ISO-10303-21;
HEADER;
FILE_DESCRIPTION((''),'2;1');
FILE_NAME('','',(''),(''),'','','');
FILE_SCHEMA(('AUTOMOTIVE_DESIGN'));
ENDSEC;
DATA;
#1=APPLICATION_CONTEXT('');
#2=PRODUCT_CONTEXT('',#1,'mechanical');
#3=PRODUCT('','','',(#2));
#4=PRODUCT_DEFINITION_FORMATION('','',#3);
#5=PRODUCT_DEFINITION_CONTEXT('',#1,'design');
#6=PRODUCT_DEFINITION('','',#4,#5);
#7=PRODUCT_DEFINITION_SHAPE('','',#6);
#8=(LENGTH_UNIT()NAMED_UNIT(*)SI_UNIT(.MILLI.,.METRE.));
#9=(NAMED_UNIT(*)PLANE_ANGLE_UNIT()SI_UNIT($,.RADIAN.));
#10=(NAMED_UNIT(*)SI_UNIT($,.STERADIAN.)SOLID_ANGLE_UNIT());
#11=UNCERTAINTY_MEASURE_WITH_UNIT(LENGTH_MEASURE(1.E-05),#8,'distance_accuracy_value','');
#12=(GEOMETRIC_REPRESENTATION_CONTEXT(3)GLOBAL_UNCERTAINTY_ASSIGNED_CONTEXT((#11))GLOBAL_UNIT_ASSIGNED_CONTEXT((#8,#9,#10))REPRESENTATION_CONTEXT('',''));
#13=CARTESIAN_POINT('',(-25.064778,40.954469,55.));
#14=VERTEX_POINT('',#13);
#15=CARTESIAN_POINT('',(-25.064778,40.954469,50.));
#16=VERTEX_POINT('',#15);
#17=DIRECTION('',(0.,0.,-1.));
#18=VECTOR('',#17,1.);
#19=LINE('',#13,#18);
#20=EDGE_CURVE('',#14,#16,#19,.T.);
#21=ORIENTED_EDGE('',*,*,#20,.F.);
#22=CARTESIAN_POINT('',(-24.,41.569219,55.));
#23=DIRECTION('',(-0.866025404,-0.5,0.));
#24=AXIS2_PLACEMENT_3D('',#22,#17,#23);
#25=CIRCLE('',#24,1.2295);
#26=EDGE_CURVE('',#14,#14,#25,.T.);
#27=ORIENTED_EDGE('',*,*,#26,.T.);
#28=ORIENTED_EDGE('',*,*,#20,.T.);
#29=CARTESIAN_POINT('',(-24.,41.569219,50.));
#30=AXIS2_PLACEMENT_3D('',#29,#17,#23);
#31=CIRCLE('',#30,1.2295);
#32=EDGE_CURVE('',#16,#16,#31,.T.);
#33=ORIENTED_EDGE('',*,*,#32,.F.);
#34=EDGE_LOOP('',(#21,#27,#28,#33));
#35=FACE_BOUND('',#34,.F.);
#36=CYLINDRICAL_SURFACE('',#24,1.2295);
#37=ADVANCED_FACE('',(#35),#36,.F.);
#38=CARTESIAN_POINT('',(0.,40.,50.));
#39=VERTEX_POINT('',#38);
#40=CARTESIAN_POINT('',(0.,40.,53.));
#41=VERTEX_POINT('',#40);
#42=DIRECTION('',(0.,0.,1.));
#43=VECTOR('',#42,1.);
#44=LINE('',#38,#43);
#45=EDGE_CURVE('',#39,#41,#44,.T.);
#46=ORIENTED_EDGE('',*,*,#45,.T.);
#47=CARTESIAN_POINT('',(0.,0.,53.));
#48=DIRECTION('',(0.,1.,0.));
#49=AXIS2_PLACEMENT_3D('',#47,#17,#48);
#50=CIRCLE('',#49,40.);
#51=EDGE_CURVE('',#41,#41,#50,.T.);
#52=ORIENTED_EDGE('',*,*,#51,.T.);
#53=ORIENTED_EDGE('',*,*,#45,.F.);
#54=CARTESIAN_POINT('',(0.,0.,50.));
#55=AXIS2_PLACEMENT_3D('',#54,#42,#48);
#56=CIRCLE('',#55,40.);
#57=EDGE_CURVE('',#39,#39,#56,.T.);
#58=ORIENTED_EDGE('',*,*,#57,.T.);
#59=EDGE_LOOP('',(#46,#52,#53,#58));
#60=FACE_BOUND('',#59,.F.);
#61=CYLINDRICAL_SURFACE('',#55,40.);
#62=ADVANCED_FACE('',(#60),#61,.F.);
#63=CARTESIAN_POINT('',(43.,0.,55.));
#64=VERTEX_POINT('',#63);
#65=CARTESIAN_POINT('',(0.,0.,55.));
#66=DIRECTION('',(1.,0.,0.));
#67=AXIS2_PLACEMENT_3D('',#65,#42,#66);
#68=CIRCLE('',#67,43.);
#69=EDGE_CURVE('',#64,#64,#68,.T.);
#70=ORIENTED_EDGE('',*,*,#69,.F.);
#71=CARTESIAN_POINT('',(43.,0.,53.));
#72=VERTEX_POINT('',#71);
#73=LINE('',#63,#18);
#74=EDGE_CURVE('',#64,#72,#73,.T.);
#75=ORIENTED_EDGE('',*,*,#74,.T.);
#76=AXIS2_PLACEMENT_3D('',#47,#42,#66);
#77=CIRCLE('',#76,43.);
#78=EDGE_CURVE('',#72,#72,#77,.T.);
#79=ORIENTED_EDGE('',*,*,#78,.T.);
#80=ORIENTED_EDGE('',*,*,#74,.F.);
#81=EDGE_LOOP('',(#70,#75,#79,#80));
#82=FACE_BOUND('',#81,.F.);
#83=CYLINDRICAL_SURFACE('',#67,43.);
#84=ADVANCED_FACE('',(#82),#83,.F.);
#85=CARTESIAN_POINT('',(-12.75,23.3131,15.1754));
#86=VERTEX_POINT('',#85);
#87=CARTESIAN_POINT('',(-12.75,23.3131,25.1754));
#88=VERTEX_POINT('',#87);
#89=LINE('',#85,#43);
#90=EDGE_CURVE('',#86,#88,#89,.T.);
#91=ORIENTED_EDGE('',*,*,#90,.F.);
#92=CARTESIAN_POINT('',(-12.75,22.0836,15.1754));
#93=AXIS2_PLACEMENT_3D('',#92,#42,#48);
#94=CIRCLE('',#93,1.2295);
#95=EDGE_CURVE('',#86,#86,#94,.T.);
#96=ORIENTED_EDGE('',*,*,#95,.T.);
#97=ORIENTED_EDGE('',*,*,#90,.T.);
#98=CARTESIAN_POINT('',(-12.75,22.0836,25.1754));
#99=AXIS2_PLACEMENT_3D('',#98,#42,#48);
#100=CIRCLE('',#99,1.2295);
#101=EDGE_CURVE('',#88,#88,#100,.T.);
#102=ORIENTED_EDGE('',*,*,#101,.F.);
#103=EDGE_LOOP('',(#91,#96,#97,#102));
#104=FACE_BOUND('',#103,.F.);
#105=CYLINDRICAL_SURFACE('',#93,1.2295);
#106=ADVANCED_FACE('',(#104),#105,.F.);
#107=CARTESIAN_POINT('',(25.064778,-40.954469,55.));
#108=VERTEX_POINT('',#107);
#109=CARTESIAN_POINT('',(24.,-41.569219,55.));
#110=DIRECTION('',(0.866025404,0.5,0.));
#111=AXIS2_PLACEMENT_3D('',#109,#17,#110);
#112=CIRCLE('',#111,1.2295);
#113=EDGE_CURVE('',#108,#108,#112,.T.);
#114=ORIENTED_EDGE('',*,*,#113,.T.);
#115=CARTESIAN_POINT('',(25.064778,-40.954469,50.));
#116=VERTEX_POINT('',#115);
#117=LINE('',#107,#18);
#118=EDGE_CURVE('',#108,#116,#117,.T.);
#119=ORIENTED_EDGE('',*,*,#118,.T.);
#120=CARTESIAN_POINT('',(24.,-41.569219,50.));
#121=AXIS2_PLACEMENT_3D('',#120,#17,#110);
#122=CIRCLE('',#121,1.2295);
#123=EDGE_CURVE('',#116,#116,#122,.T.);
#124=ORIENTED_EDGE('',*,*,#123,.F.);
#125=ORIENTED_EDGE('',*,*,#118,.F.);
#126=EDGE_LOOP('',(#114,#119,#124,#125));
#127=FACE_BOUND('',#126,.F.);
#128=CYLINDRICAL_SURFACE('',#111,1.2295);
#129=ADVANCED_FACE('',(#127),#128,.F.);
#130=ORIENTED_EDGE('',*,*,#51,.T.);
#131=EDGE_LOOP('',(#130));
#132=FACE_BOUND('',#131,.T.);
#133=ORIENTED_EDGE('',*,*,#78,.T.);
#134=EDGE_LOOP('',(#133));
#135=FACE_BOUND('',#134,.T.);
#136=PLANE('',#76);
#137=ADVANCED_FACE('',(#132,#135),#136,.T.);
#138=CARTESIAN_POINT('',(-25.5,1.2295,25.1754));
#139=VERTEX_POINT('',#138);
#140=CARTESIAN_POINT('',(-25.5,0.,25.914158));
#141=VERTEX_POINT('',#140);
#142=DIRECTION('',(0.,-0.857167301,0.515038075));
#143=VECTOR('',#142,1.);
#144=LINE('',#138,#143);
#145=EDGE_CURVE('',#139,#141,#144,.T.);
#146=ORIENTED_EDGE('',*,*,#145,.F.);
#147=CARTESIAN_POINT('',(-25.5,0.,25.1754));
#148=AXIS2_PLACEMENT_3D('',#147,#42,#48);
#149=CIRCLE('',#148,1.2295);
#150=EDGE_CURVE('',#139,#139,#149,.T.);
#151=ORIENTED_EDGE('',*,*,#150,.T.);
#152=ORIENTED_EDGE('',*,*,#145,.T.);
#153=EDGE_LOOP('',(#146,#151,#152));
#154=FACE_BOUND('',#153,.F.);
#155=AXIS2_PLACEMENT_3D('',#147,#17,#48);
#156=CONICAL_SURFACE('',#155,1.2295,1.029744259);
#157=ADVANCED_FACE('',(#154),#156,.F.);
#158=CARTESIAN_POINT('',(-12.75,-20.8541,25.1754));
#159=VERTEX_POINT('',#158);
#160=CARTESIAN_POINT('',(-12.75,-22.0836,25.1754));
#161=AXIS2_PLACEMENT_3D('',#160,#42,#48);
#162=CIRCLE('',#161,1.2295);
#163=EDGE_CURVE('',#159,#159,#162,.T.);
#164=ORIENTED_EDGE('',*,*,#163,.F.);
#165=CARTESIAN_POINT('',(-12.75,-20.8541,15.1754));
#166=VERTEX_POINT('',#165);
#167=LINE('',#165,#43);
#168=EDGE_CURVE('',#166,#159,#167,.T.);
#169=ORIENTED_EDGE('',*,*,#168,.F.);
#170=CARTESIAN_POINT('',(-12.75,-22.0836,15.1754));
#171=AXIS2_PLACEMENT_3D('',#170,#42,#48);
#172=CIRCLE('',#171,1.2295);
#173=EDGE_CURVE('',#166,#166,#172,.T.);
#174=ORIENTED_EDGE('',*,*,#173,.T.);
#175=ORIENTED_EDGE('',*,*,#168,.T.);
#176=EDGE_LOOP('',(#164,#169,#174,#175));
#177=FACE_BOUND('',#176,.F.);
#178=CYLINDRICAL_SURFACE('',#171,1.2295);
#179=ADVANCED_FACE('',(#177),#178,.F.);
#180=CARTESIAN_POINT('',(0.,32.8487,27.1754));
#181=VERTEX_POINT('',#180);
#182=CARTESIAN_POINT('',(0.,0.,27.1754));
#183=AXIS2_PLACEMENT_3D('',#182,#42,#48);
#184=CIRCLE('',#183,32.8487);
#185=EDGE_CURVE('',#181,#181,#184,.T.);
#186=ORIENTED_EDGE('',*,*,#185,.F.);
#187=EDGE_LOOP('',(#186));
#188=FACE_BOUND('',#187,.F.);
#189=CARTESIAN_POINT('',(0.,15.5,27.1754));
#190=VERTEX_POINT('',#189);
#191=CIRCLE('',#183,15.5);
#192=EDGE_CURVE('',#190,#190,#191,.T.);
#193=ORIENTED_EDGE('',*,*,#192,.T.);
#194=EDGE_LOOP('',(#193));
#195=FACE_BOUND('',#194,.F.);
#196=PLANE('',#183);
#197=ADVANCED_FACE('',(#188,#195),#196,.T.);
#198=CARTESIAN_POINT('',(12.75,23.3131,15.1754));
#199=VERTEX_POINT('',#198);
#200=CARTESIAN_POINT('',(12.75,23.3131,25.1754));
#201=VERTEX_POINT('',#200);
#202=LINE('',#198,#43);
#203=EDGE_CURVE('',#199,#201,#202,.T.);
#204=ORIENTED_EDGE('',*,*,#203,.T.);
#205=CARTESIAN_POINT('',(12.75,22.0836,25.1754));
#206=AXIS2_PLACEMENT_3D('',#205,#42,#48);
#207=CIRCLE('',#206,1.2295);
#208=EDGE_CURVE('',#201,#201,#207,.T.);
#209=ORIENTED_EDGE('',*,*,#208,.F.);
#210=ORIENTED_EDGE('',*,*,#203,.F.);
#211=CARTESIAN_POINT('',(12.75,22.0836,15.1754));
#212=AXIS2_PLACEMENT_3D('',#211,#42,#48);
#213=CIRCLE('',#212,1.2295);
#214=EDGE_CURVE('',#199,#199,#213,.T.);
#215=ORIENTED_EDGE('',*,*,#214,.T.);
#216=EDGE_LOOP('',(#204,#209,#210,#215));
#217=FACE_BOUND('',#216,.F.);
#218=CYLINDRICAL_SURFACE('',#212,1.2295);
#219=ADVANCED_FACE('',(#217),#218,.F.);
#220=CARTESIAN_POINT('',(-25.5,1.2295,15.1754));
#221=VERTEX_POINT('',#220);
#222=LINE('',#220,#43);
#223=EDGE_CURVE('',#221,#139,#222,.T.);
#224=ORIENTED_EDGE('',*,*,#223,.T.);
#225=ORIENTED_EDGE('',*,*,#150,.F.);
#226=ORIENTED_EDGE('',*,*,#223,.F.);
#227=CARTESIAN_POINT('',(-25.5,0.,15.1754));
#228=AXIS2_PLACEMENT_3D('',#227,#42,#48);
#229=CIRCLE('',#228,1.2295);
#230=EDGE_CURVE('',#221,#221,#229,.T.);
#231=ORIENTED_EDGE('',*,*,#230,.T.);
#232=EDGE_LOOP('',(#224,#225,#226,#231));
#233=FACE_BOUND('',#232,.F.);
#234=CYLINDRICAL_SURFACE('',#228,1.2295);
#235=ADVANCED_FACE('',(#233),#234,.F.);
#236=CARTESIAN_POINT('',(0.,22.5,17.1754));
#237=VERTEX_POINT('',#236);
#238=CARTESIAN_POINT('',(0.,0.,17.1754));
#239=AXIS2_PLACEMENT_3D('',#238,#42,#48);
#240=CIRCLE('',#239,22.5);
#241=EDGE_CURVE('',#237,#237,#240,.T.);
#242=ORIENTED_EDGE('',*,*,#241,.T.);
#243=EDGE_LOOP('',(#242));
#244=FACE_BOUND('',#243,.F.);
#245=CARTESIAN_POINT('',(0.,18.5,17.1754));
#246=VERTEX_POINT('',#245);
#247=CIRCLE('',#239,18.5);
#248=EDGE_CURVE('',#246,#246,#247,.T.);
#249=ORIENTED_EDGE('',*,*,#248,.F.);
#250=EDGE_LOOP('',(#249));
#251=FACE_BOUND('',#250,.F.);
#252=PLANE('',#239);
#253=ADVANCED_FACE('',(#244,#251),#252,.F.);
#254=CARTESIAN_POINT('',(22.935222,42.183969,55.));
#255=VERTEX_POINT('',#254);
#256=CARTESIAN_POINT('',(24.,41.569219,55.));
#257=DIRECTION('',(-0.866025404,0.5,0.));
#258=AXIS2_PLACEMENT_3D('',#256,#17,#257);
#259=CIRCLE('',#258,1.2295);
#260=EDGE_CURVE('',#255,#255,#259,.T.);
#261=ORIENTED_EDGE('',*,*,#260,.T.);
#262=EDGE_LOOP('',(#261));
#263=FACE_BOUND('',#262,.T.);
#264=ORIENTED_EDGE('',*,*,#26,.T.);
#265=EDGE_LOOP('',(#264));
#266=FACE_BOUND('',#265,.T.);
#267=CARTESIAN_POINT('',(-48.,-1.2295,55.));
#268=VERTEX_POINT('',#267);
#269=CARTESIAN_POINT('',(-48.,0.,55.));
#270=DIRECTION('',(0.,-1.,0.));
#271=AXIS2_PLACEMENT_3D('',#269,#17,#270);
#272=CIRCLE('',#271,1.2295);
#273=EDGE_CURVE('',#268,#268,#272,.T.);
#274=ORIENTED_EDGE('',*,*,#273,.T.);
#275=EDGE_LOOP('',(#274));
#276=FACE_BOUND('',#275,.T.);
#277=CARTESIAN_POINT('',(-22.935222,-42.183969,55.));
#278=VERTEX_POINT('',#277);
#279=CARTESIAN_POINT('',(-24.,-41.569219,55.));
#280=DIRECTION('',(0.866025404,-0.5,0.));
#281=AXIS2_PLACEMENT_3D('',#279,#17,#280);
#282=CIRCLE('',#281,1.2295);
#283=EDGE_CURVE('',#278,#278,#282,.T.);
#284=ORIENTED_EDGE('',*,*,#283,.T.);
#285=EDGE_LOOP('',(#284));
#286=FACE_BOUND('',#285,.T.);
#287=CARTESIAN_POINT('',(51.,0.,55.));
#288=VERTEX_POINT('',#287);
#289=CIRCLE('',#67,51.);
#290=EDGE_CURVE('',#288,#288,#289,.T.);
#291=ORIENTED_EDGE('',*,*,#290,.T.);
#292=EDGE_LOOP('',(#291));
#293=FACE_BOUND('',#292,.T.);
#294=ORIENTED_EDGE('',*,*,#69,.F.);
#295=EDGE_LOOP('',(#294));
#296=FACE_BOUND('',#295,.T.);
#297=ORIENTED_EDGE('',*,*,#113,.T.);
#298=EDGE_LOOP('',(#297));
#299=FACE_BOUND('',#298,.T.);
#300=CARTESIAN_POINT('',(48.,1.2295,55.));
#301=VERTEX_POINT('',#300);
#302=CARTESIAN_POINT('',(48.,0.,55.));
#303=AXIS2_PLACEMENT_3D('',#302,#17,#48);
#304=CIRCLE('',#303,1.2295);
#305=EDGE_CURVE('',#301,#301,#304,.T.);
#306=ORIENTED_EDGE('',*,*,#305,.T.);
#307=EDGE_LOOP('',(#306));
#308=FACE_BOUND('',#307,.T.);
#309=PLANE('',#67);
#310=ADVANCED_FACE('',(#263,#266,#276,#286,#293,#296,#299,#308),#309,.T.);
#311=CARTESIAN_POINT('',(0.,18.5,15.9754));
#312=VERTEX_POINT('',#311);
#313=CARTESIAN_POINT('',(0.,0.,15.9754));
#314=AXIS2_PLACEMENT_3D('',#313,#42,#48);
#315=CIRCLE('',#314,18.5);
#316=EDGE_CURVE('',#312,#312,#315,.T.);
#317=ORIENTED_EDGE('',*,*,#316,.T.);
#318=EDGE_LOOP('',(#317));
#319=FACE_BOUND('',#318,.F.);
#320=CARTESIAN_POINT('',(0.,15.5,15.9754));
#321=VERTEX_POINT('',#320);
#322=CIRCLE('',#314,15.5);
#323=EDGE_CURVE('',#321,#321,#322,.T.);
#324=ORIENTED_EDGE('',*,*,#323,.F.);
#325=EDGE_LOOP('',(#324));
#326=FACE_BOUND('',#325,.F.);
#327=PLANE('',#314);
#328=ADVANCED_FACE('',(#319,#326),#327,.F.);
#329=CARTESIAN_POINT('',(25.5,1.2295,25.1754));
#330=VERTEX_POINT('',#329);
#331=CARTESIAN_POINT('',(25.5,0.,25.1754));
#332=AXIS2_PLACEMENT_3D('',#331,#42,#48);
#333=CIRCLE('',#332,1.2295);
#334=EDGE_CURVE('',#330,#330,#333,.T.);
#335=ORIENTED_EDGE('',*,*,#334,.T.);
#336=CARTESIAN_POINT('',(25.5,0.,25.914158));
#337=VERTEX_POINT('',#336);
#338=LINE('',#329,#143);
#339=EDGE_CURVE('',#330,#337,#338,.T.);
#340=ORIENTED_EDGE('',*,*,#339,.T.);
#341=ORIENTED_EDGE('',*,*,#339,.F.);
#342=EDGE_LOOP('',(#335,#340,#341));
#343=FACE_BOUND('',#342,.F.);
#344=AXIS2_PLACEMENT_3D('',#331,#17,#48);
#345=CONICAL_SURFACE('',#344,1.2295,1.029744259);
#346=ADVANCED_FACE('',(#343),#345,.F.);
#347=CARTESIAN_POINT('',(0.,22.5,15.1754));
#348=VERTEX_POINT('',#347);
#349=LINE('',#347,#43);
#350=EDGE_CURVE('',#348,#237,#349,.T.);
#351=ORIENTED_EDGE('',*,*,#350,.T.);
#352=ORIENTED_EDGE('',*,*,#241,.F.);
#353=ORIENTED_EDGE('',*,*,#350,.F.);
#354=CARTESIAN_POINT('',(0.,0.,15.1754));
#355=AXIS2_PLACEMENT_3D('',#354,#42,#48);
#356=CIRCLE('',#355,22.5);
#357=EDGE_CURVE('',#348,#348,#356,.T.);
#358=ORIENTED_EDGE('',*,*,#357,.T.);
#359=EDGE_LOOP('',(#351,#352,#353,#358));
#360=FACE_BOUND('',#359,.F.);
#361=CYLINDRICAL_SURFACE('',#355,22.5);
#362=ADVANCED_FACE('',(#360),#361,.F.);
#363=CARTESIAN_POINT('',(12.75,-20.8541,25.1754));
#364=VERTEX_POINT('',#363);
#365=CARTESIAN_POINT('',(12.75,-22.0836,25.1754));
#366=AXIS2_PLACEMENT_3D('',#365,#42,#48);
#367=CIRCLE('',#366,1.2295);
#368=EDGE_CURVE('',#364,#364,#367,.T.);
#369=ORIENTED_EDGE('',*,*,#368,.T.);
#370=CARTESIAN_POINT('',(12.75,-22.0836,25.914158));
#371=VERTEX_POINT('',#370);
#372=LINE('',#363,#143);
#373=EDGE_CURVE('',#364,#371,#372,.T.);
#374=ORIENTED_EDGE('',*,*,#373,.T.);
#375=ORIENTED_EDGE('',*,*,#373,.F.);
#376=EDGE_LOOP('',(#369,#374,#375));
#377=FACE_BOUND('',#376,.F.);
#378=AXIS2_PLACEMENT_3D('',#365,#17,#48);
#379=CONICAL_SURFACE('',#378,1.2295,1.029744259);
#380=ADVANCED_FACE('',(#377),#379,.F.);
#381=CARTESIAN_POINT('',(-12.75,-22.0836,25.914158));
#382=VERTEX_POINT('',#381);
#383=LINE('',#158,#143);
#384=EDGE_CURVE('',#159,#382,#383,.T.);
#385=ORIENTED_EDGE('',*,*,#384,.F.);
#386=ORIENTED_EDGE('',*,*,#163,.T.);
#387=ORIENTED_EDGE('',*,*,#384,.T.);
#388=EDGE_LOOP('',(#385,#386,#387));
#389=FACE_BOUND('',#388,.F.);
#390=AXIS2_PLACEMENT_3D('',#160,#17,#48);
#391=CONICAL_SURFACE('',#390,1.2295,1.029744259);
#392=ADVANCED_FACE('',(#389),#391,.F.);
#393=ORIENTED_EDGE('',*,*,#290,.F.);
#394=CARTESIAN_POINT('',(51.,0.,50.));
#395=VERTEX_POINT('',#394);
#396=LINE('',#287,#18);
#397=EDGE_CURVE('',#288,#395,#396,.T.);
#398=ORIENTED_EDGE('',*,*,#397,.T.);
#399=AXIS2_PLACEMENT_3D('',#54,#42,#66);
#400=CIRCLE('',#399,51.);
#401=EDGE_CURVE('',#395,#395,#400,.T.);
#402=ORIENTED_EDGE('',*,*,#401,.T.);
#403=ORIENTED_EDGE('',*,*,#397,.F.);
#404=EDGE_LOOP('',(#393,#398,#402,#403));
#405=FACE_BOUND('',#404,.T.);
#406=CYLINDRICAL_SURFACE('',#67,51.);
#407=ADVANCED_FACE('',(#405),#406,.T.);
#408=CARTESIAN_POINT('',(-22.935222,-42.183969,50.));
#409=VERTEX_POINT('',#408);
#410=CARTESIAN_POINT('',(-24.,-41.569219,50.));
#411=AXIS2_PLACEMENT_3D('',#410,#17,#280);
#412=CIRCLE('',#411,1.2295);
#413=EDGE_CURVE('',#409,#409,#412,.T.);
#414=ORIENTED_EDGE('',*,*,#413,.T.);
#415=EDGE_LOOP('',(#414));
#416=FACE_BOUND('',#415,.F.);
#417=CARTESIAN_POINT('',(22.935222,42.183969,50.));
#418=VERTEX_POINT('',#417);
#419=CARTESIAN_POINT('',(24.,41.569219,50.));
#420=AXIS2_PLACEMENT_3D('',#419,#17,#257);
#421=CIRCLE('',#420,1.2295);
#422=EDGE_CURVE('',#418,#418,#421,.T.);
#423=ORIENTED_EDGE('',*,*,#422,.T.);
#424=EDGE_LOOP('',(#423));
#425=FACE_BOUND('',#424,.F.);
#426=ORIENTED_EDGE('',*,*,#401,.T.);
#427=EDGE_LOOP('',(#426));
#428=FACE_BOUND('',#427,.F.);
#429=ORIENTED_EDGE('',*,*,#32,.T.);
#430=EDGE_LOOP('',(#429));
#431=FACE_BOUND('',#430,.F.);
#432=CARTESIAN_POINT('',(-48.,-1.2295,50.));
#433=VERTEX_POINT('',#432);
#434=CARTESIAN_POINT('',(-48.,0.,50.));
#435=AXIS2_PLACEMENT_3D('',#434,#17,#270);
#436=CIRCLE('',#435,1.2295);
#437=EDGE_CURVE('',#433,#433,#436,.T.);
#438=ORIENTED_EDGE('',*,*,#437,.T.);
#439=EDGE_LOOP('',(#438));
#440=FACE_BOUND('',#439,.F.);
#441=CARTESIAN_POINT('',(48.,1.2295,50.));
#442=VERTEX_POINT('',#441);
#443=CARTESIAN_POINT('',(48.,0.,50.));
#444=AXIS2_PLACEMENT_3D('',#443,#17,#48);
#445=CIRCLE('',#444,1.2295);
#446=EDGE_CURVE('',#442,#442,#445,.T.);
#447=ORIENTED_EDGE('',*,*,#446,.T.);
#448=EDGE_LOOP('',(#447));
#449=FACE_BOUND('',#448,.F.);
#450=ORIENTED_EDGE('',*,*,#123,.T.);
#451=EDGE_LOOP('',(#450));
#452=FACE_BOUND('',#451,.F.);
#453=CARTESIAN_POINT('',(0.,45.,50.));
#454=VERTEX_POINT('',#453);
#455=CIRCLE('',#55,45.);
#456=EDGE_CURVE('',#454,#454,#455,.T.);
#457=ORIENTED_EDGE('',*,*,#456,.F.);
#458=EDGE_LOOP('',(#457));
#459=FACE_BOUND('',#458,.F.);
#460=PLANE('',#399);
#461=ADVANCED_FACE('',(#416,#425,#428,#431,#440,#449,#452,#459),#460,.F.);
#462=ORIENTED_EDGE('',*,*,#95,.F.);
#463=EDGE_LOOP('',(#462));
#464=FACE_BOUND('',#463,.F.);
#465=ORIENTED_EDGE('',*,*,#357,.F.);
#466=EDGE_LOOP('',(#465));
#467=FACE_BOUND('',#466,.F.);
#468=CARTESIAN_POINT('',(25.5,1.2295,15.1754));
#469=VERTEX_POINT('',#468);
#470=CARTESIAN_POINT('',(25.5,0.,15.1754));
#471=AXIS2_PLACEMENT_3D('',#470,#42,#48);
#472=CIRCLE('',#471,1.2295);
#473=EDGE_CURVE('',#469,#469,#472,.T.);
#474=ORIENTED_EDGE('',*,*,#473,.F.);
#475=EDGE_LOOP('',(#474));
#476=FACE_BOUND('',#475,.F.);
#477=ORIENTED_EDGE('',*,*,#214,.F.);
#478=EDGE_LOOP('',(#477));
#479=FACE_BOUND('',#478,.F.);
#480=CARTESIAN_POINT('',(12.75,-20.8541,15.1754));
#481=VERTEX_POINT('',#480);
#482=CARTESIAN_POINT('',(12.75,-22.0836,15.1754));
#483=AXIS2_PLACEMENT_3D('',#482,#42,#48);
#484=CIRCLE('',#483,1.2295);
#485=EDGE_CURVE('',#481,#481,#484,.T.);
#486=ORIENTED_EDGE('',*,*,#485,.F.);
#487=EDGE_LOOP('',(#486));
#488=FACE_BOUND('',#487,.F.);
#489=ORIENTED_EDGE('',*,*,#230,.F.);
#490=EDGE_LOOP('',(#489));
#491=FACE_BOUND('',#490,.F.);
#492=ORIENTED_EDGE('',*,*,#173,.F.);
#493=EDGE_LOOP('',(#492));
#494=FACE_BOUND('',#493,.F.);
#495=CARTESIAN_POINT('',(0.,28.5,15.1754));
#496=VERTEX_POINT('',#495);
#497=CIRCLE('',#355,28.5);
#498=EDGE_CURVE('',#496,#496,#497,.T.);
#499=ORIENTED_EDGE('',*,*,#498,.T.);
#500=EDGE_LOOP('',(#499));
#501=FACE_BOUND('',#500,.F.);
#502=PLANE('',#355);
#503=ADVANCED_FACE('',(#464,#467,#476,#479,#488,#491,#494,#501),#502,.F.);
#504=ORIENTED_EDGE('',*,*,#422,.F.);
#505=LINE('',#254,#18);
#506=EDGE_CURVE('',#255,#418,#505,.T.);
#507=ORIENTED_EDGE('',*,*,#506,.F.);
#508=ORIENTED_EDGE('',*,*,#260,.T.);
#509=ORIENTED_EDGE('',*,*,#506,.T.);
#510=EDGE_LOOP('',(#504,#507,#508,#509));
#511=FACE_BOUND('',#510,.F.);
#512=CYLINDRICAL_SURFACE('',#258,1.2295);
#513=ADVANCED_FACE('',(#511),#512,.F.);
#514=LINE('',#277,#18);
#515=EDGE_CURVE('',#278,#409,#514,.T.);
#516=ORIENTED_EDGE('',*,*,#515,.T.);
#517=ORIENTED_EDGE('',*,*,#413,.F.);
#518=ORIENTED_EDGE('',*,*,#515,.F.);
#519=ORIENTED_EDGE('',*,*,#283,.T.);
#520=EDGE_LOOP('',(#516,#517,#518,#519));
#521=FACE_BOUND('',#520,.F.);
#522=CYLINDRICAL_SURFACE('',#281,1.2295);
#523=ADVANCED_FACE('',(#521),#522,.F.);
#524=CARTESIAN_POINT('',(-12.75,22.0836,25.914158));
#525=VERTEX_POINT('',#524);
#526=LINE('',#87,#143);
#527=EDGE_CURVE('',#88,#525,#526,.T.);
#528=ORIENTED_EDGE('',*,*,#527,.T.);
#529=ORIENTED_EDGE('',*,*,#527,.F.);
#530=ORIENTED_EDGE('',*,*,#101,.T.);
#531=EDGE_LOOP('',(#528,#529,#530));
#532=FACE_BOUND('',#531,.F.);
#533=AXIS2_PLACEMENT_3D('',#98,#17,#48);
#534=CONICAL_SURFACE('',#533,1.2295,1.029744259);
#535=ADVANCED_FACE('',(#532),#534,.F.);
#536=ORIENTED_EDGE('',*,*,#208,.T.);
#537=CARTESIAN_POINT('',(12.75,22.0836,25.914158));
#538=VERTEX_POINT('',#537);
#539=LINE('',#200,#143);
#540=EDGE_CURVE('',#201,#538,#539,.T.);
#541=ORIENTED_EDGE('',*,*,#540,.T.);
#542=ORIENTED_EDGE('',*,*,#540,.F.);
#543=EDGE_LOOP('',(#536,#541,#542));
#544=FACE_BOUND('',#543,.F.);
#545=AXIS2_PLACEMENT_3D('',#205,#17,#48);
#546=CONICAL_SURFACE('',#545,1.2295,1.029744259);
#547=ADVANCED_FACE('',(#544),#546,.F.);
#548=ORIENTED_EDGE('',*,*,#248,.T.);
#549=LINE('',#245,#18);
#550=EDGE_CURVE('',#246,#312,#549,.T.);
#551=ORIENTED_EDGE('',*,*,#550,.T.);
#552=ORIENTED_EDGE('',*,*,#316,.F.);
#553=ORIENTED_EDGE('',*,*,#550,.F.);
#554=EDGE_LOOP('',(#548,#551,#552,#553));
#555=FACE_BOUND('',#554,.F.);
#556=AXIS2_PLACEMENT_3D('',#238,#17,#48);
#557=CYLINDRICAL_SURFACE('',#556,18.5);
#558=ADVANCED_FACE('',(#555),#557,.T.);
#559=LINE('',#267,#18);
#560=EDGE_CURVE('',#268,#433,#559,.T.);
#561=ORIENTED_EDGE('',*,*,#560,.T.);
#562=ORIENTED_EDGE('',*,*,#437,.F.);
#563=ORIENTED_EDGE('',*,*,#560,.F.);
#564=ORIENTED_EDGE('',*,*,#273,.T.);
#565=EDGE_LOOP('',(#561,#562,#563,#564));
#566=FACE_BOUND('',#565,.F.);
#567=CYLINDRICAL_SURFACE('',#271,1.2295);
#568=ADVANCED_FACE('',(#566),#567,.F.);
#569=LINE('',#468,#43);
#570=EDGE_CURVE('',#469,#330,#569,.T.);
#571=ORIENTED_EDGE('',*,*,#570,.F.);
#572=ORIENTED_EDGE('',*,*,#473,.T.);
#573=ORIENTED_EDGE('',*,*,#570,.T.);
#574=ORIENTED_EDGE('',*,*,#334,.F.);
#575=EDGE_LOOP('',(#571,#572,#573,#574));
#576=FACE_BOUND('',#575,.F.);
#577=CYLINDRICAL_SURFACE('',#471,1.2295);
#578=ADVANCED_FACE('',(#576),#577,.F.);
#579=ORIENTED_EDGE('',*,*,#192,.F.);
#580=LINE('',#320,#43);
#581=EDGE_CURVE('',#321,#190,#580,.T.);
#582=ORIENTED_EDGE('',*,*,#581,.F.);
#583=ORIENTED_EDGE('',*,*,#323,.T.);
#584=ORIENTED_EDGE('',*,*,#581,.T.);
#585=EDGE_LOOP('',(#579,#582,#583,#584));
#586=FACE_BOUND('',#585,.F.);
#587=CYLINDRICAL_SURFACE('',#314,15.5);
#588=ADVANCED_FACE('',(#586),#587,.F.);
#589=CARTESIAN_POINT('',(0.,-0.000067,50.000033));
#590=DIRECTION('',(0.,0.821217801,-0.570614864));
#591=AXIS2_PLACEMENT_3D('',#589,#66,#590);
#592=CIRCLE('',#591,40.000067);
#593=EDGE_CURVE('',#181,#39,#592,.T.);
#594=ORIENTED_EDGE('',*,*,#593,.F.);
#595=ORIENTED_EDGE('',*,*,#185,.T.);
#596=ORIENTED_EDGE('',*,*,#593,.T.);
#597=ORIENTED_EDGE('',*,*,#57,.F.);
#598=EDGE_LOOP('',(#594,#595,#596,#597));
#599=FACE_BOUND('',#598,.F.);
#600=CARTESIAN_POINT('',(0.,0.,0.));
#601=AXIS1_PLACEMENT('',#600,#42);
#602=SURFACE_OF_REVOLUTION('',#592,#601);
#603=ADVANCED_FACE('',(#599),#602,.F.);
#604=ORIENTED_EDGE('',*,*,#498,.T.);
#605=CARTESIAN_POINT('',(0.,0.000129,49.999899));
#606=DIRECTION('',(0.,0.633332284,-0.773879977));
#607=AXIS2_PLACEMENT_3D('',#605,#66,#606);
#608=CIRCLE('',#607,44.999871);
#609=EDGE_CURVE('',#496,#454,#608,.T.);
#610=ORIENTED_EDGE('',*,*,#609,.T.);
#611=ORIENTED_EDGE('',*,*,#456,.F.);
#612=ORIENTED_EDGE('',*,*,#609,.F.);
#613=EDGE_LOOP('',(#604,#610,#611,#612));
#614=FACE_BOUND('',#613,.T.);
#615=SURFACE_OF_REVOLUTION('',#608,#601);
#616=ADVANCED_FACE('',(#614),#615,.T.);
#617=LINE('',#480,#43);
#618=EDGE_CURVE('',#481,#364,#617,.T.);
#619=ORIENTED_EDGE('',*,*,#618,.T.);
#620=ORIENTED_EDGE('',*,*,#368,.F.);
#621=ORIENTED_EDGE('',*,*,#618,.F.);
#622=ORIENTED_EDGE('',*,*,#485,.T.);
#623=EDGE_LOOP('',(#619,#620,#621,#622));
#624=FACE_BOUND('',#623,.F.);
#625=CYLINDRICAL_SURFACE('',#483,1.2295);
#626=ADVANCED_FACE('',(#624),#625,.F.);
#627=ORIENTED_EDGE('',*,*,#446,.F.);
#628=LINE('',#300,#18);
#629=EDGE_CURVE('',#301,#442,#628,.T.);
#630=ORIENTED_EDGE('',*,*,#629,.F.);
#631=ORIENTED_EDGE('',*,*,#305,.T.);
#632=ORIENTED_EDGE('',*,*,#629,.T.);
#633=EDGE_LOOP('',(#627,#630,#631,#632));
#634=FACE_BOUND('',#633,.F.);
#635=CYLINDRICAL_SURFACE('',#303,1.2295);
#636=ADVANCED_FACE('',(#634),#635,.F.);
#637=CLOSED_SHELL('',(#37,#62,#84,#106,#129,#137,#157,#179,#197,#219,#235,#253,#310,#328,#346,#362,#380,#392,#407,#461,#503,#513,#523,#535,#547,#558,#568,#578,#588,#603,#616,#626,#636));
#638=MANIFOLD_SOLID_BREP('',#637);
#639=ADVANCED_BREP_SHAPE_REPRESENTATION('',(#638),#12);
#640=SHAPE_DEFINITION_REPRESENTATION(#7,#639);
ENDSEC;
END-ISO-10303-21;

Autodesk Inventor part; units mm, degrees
ref_plane "YZ Plane" through (0, 0, 0) normal (1, 0, 0) x (0, 1, 0)
sketch "Skizze1" plane through (0, 0, 0) normal (1, 0, 0) x (0, 1, 0)
  line L0 (0, 0) -> (0, 50)
  arc A0 (32.8487, 27.1754) -> (40, 50) centre (0, 50) ccw
  arc A1 (28.5, 15.1754) -> (45, 50) centre (0, 50) ccw
  line L1 (40, 50) -> (40, 55)
  line L2 (40, 55) -> (45, 55)
  line L3 (45, 55) -> (45, 50)
  line L4 (0, 50) -> (40, 50) construction
  line L5 (0, 50) -> (32.8487, 27.1754) construction
  line L6 (28.5, 15.1754) -> (22.5, 15.1754)
  line L7 (22.5, 15.1754) -> (22.5, 17.1754)
  line L8 (22.5, 17.1754) -> (18.5, 17.1754)
  line L9 (18.5, 17.1754) -> (18.5, 15.9754)
  line L10 (18.5, 15.9754) -> (15.5, 15.9754)
  line L11 (15.5, 15.9754) -> (15.5, 27.1754)
  line L12 (15.5, 27.1754) -> (32.8487, 27.1754)
  line L13 (0, 36.0806) -> (37.5, 36.0806) construction
  dimension "d3" = 5
  dimension "r_Kugel" = 45
  dimension "d5" = 50
  dimension "d7" = 5
  dimension "d36" = 4
  dimension "d38" = 2
  dimension "d40" = 1.2
  dimension "d41" = 45
  dimension "d179" = 3
  dimension "d194" = 17.3487
  dimension "d292" = 10
  dimension "d293" = 6
  dimension "d294" = 37.5
  dimension "d295" = 13.9194
  dimension "d296" = 8.9052
revolve "Umdrehung1" add sketch "Skizze1" angle 360 about axis through (0, 0, 0) along (0, 0, 1)
sketch "Skizze6" plane through (0, 0, 27.1754) normal (0, 0, 1) x (1, 0, 0)
  circle A0 centre (0, 0) radius 32.8487 construction
  circle A1 centre (0, 0) radius 15.5 construction
  line L0 (-6.5, -15.5) -> (18.5, -15.5)
  line L1 (18.5, -15.5) -> (18.5, -23.5)
  line L2 (18.5, -23.5) -> (-6.5, -23.5)
  line L3 (-6.5, -23.5) -> (-6.5, -15.5)
  line L4 (-6.5, -23.5) -> (18.5, -15.5) construction
  line L5 (18.5, -23.5) -> (-6.5, -15.5) construction
  circle A2 centre (0, 0) radius 32.8487 projected
  point P0 (0, 0)
  point P1 (6, -15.5)
  point P2 (6, -19.5)
  dimension "d130" = 8
  dimension "d180" = 25
  dimension "d191" = 6
ref_plane "Arbeitsebene2" through (0, 0, 31.1754) normal (0, 0, 1) x (1, 0, 0)
sketch "Skizze7" plane through (0, 0, 31.1754) normal (0, 0, 1) x (1, 0, 0)
  line L0 (-6.5, -23.5) -> (-6.5, -15.5) construction
  line L1 (18.5, -23.5) -> (-6.5, -23.5) construction
  line L2 (-6.5, -15.5) -> (18.5, -15.5) construction
  line L3 (18.5, -15.5) -> (18.5, -23.5) construction
  line L4 (18.5, -23.5) -> (-6.5, -15.5) construction
  line L5 (-6.5, -23.5) -> (18.5, -15.5) construction
  line L6 (-0.5, -15.5) -> (19.5, -15.5)
  line L7 (19.5, -15.5) -> (19.5, -20.5)
  line L8 (19.5, -20.5) -> (-0.5, -20.5)
  line L9 (-0.5, -20.5) -> (-0.5, -15.5)
  line L10 (-0.5, -20.5) -> (19.5, -15.5) construction
  line L11 (19.5, -20.5) -> (-0.5, -15.5) construction
  point P0 (0, 0)
  point P1 (6, -19.5)
  point P2 (9.5, -15.5)
  point P3 (9.5, -18)
  dimension "d50" = 20
  dimension "d51" = 5
  dimension "d98" = 25
  dimension "d99" = 8
  dimension "d221" = 1
ref_plane "Arbeitsebene3" through (0, 0, 41.1754) normal (0, 0, 1) x (1, 0, 0)
sketch "Skizze8" plane through (0, 0, 41.1754) normal (0, 0, 1) x (1, 0, 0)
  point P0 (0, 0)
feature "Erhebung1" [suppressed]
extrude "Extrusion16" [suppressed]
feature "Rippe1" [suppressed]
sketch "Skizze31" plane through (-0.5, -20.5, 41.1754) normal (0, -1, 0) x (1, 0, 0)
  line L0 (0, 0) -> (20, 0) construction
  line L1 (16, 0) -> (4, 0)
  arc A0 (4, 0) -> (16, 0) centre (10, 0) ccw
  point P0 (0.5, -41.1754)
  dimension "d181" = 12
extrude "Extrusion17" [suppressed]
sketch "Skizze39" plane through (-0.5, -19.4434, 31.1754) normal (0, 0, 1) x (1, 0, 0)
  arc A0 (-20.4801, -8.9374) -> (-18.1844, -10.4987) centre (0.5, 19.4434) ccw construction
  line L0 (-18.1844, -10.4987) -> (0, 0) construction
  line L1 (0, 2.8868) -> (-20.4801, -8.9374) construction
  arc A1 (8.75, -14.8724) -> (11.25, -14.1732) centre (0.5, 19.4434) ccw construction
  line L2 (11.25, -14.1732) -> (11.25, -1.0566) construction
  line L3 (8.75, -1.0566) -> (8.75, -14.8724) construction
  circle A2 centre (-9.0922, -5.2494) radius 2.5
  circle A3 centre (8.75, -7.9645) radius 2.5
  line L4 (0, 3.9434) -> (20, 3.9434) projected
  line L5 (0, 2.8868) -> (0, 3.9434) projected
  line L6 (0, 2.8868) -> (-20.4801, -8.9374) projected
  arc A4 (-20.4801, -8.9374) -> (-18.1844, -10.4987) centre (0.5, 19.4434) ccw projected
  line L7 (-18.1844, -10.4987) -> (0, 0) projected
  line L8 (0, -1.0566) -> (0, 0) projected
  line L9 (8.75, -1.0566) -> (0, -1.0566) projected
  line L10 (20, -1.0566) -> (11.25, -1.0566) projected
  line L11 (20, 0) -> (20, -1.0566) projected
  line L12 (20, 0) -> (26.8981, -3.9826) projected
  arc A5 (26.8981, -3.9826) -> (28.5115, -2.0274) centre (0.5, 19.4434) ccw projected
  line L13 (28.5115, -2.0274) -> (20, 2.8868) projected
  line L14 (20, 3.9434) -> (20, 2.8868) projected
  line L15 (0, 3.9434) -> (20, 3.9434) projected
  line L16 (0, 2.8868) -> (0, 3.9434) projected
  line L17 (0, -1.0566) -> (0, 0) projected
  line L18 (8.75, -1.0566) -> (0, -1.0566) projected
  line L19 (8.75, -1.0566) -> (8.75, -14.8724) projected
  arc A6 (8.75, -14.8724) -> (11.25, -14.1732) centre (0.5, 19.4434) ccw projected
  line L20 (11.25, -14.1732) -> (11.25, -1.0566) projected
  line L21 (20, -1.0566) -> (11.25, -1.0566) projected
  line L22 (20, 0) -> (20, -1.0566) projected
  line L23 (20, 0) -> (26.8981, -3.9826) projected
  arc A7 (26.8981, -3.9826) -> (28.5115, -2.0274) centre (0.5, 19.4434) ccw projected
  line L24 (28.5115, -2.0274) -> (20, 2.8868) projected
  line L25 (20, 3.9434) -> (20, 2.8868) projected
  dimension "d225" = 5
extrude "Extrusion21" [suppressed]
sketch "Skizze42" plane through (-0.5, -19.4434, 31.1754) normal (0, 0, 1) x (1, 0, 0)
  line L0 (-18.1844, -10.4987) -> (0, 0) construction
  line L1 (0, 2.8868) -> (-20.4801, -8.9374) construction
  arc A0 (-20.4801, -8.9374) -> (-18.1844, -10.4987) centre (0.5, 19.4434) ccw construction
  line L2 (11.25, -14.1732) -> (11.25, -1.0566) construction
  line L3 (8.75, -1.0566) -> (8.75, -14.8724) construction
  arc A1 (8.75, -14.8724) -> (11.25, -14.1732) centre (0.5, 19.4434) ccw construction
  line L4 (0, 3.9434) -> (20, 3.9434) projected
  line L5 (0, 2.8868) -> (0, 3.9434) projected
  line L6 (0, 2.8868) -> (-20.4801, -8.9374) projected
  arc A2 (-20.4801, -8.9374) -> (-18.1844, -10.4987) centre (0.5, 19.4434) ccw projected
  line L7 (-18.1844, -10.4987) -> (0, 0) projected
  line L8 (0, -1.0566) -> (0, 0) projected
  line L9 (8.75, -1.0566) -> (0, -1.0566) projected
  line L10 (20, -1.0566) -> (11.25, -1.0566) projected
  line L11 (20, 0) -> (20, -1.0566) projected
  line L12 (20, 0) -> (26.8981, -3.9826) projected
  arc A3 (26.8981, -3.9826) -> (28.5115, -2.0274) centre (0.5, 19.4434) ccw projected
  line L13 (28.5115, -2.0274) -> (20, 2.8868) projected
  line L14 (20, 3.9434) -> (20, 2.8868) projected
  line L15 (0, 3.9434) -> (20, 3.9434) projected
  line L16 (0, 2.8868) -> (0, 3.9434) projected
  line L17 (0, -1.0566) -> (0, 0) projected
  line L18 (8.75, -1.0566) -> (0, -1.0566) projected
  line L19 (8.75, -1.0566) -> (8.75, -14.8724) projected
  arc A4 (8.75, -14.8724) -> (11.25, -14.1732) centre (0.5, 19.4434) ccw projected
  line L20 (11.25, -14.1732) -> (11.25, -1.0566) projected
  line L21 (20, -1.0566) -> (11.25, -1.0566) projected
  line L22 (20, 0) -> (20, -1.0566) projected
  line L23 (20, 0) -> (26.8981, -3.9826) projected
  arc A5 (26.8981, -3.9826) -> (28.5115, -2.0274) centre (0.5, 19.4434) ccw projected
  line L24 (28.5115, -2.0274) -> (20, 2.8868) projected
  line L25 (20, 3.9434) -> (20, 2.8868) projected
  point P0 (-5.5228, -3.1886)
  point P1 (8.7436, -4.3348)
hole "Bohrung4" [suppressed]
sketch "Skizze32" plane through (0, 0, 41.1754) normal (0, 0, 1) x (1, 0, 0)
  line L0 (3.5, -20.5) -> (3.5, -15.5) construction
  line L1 (3.5, -15.5) -> (-0.5, -15.5) construction
  line L2 (-0.5, -15.5) -> (-0.5, -20.5) construction
  line L3 (-0.5, -20.5) -> (3.5, -20.5) construction
  line L4 (-0.5, -20.5) -> (3.5, -15.5) construction
  line L5 (-0.5, -15.5) -> (3.5, -20.5) construction
  point P0 (0, 0)
  point P1 (1.5, -18)
hole "Bohrung3" [suppressed]
ref_plane "Arbeitsebene11" through (9.5, -20.5, 41.1754) normal (1, 0, 0) x (0, 0, -1)
mirror "Spiegeln6" [suppressed]
mirror "Spiegeln3" [suppressed]
sketch "Skizze36" plane through (-6.5, -15.5, 27.1754) normal (0, 0, 1) x (1, 0, 0)
  circle A0 centre (6.5, 15.5) radius 15.5 construction
  circle A1 centre (6.5, 15.5) radius 32.8487 construction
  circle A2 centre (-7.1511, -1.4325) radius 5.25
  line L0 (-7.1511, -1.4325) -> (-7.8178, 4.7818) construction
  line L1 (-7.8178, 4.7818) -> (-7.7112, 3.7875)
  arc A3 (-13.3654, -2.0993) -> (-7.8178, 4.7818) centre (-7.1511, -1.4325) ccw
  line L2 (-7.1511, -1.4325) -> (-13.3654, -2.0993) construction
  line L3 (-13.3654, -2.0993) -> (-12.3711, -1.9926)
  arc A4 (6.5, 31) -> (6.5, 0) centre (6.5, 15.5) ccw projected
  arc A5 (1.5102, 36.6699) -> (1.5102, -5.6699) centre (6.5, 15.5) ccw construction
  arc A6 (-18.6964, 10.2798) -> (-16.1571, 3.3029) centre (-13.9383, 8.0611) ccw
  line L4 (-13.9383, 8.0611) -> (-18.6964, 10.2798) construction
  line L5 (-13.9383, 8.0611) -> (-16.1571, 3.3029) construction
  arc A7 (-9.1802, 5.8423) -> (-11.7196, 12.8192) centre (-13.9383, 8.0611) ccw
  line L6 (-13.9383, 8.0611) -> (-11.7196, 12.8192) construction
  line L7 (-13.9383, 8.0611) -> (-9.1802, 5.8423) construction
  arc A8 (-16.1571, 3.3029) -> (-9.1802, 5.8423) centre (-13.9383, 8.0611) ccw
  arc A9 (-11.7196, 12.8192) -> (-18.6964, 10.2798) centre (-13.9383, 8.0611) ccw
  line L8 (6.5, 15.5) -> (-15.25, 15.5) construction
  arc A10 (-8.2739, 5.4197) -> (-11.297, 13.7255) centre (-13.9383, 8.0611) ccw
  line L9 (-9.1802, 5.8423) -> (-8.2739, 5.4197)
  line L10 (-11.297, 13.7255) -> (-11.7196, 12.8192)
  arc A11 (-19.6027, 10.7024) -> (-16.5797, 2.3966) centre (-13.9383, 8.0611) ccw
  line L11 (-16.1571, 3.3029) -> (-16.5797, 2.3966)
  line L12 (-18.6964, 10.2798) -> (-19.6027, 10.7024)
  circle A12 centre (-7.1511, 32.4325) radius 5.25
  line L13 (-7.1511, 32.4325) -> (-7.8178, 26.2182) construction
  line L14 (-7.1511, 32.4325) -> (-13.3654, 33.0993) construction
  line L15 (-7.1511, 32.4325) -> (-7.8178, 26.2182) construction
  arc A13 (-16.1571, 27.6971) -> (-18.6964, 20.7202) centre (-13.9383, 22.9389) ccw
  line L16 (-13.9383, 22.9389) -> (-18.6964, 20.7202) construction
  line L17 (-13.9383, 22.9389) -> (-16.1571, 27.6971) construction
  arc A14 (-11.7196, 18.1808) -> (-9.1802, 25.1577) centre (-13.9383, 22.9389) ccw
  line L18 (-13.9383, 22.9389) -> (-11.7196, 18.1808) construction
  line L19 (-13.9383, 22.9389) -> (-9.1802, 25.1577) construction
  arc A15 (-9.1802, 25.1577) -> (-16.1571, 27.6971) centre (-13.9383, 22.9389) ccw
  arc A16 (-18.6964, 20.7202) -> (-11.7196, 18.1808) centre (-13.9383, 22.9389) ccw
  line L20 (-12.1427, 27.8723) -> (-15.7339, 18.0056) construction
  arc A17 (-11.297, 17.2745) -> (-8.2739, 25.5803) centre (-13.9383, 22.9389) ccw
  line L21 (-9.1802, 25.1577) -> (-8.2739, 25.5803)
  line L22 (-11.297, 17.2745) -> (-11.7196, 18.1808)
  arc A18 (-16.5797, 28.6034) -> (-19.6027, 20.2976) centre (-13.9383, 22.9389) ccw
  line L23 (-16.1571, 27.6971) -> (-16.5797, 28.6034)
  line L24 (-18.6964, 20.7202) -> (-19.6027, 20.2976)
  line L25 (-12.1427, 3.1277) -> (-15.7339, 12.9944) construction
  line L26 (-11.2382, 1.8626) -> (-3.0639, -4.7276) construction
  line L27 (-11.2382, 29.1374) -> (-3.0639, 35.7276) construction
  arc A19 (-7.8178, 26.2182) -> (-13.3654, 33.0993) centre (-7.1511, 32.4325) ccw
  line L28 (-7.8178, 26.2182) -> (-7.7112, 27.2125)
  line L29 (-12.3711, 32.9926) -> (-13.3654, 33.0993)
  dimension "Durchmesser_Bat" = 10.5
  dimension "d203" = 90
  dimension "d206" = 90
  dimension "d207" = 5.25
  dimension "d208" = 90
  dimension "d209" = 20
  dimension "d210" = 90
  dimension "d266" = 1
extrude "Extrusion18" [suppressed]
extrude "Extrusion20" [suppressed]
sketch "Skizze37" plane through (0, -15.5, 27.1754) normal (0, 0, 1) x (1, 0, 0)
  circle A0 centre (0, 15.5) radius 15.5 construction
  circle A1 centre (0, 15.5) radius 32.8487 construction
  circle A2 centre (19.1833, 5.25) radius 5.25
  arc A3 (15.8821, 10.557) -> (25.4299, 5.4554) centre (19.1833, 5.25) ccw
  line L0 (19.1833, 5.25) -> (15.8821, 10.557) construction
  line L1 (19.1833, 5.25) -> (25.4299, 5.4554) construction
  line L2 (15.8821, 10.557) -> (16.4103, 9.7079)
  line L3 (25.4299, 5.4554) -> (24.4305, 5.4226)
  arc A4 (15.2582, 0) -> (15.2582, 31) centre (0, 15.5) ccw construction
  line L4 (16.7092, 0.6195) -> (21.6575, 9.8805) construction
  line L5 (0, 15.5) -> (32.8487, 15.5) construction
  arc A5 (0, 48.3487) -> (0, 48.3487) centre (0, 15.5) ccw construction
  circle A6 centre (19.1833, 25.75) radius 5.25
  arc A7 (25.4299, 25.5446) -> (15.8821, 20.443) centre (19.1833, 25.75) ccw
  line L6 (15.8821, 20.443) -> (16.4103, 21.2921)
  line L7 (25.4299, 25.5446) -> (24.4305, 25.5774)
  circle A8 centre (21.75, 15.5) radius 5.25
  arc A9 (17.3306, 19.9194) -> (17.3306, 11.0806) centre (21.75, 15.5) ccw
  arc A10 (26.1694, 11.0806) -> (26.1694, 19.9194) centre (21.75, 15.5) ccw
  line L8 (17.3306, 11.0806) -> (26.1694, 19.9194) construction
  line L9 (26.1694, 11.0806) -> (17.3306, 19.9194) construction
  line L10 (18.0377, 11.7877) -> (17.3306, 11.0806)
  line L11 (18.0377, 19.2123) -> (17.3306, 19.9194)
  line L12 (26.1694, 19.9194) -> (25.4623, 19.2123)
  line L13 (26.1694, 11.0806) -> (25.4623, 11.7877)
  line L14 (21.75, 10.25) -> (21.75, 20.75) construction
  point P0 (20.6457, -1.166)
  point P1 (18.5, -3.5197)
  dimension "d211" = 10.5
  dimension "d214" = 1
  dimension "d218" = 120
  dimension "d220" = 90
extrude "Extrusion19" [suppressed]
extrude "Extrusion22" [suppressed]
ref_plane "Arbeitsebene13" through (0, 0, 32.1754) normal (0, 0, 1) x (0, -1, 0)
sketch "Skizze44" plane through (0, 0, 32.1754) normal (0, 0, 1) x (0, -1, 0)
  circle A0 centre (0, 0) radius 15.5 construction
  circle A1 centre (0, 0) radius 15.5 construction
  line L0 (-0.8, -2) -> (-3.8, -2)
  line L1 (-3.8, -2) -> (-3.8, 2)
  line L2 (-3.8, 2) -> (-0.8, 2)
  line L3 (-0.8, 4) -> (-5.8, 4)
  line L4 (-5.8, 4) -> (-5.8, -4)
  line L5 (-5.8, -4) -> (-0.8, -4)
  line L6 (-0.8, -2) -> (-0.8, -4)
  line L7 (-0.8, 2) -> (-0.8, 4)
  point P0 (0, 0)
  point P1 (-3.8, 0)
  dimension "d245" = 2
  dimension "d246" = 4
  dimension "d247" = 3
  dimension "d277" = 0.8
extrude "Extrusion23" [suppressed]
sketch "Skizze46" plane through (-5.8, 4, 41.1754) normal (0, 0, 1) x (1, 0, 0)
  line L0 (0, -8) -> (5, -8)
  line L1 (1, -8) -> (4, -8)
  line L2 (4, -8) -> (8.3, -19.5)
  line L3 (1, -8) -> (5.3, -19.5)
  line L4 (5.3, -19.5) -> (8.3, -19.5)
  line L5 (5, -6) -> (5, -8) construction
  line L6 (2, -6) -> (5, -6) construction
  line L7 (2, -2) -> (2, -6) construction
  line L8 (5, -2) -> (2, -2) construction
  line L9 (5, 0) -> (5, -2) construction
  line L10 (0, 0) -> (5, 0) construction
  line L11 (0, -8) -> (0, 0) construction
  line L12 (5, -8) -> (0, -8) construction
  line L13 (5.8, -19.5) -> (24.3, -19.5) construction
  line L14 (-0.7, -19.5) -> (5.8, -19.5) construction
  line L15 (-0.7, -19.5) -> (5.3, -19.5) construction
  line L16 (5.3, -19.5) -> (5.3, -24.5) construction
  line L17 (0, -8) -> (0, 0) construction
  line L18 (5, -8) -> (0, -8) construction
  circle A0 centre (5.8, -4) radius 40 construction
  circle A1 centre (5.8, -4) radius 32.8487 construction
  line L19 (0, -5.5) -> (-34.2, -5.5)
  line L20 (-34.2, -5.5) -> (-34.2, -4)
  line L21 (-34.2, -4) -> (0, -4)
  line L22 (0, -4) -> (0, -5.5)
  line L23 (24.3, -19.5) -> (25.3, -19.5) projected
  line L24 (5.3, -19.5) -> (25.3, -19.5) projected
  point P0 (2, -4)
  point P1 (-17.1, -4)
  dimension "d252" = 3
  dimension "d253" = 1
  dimension "d255" = 5
  dimension "d268" = 1.5
extrude "Extrusion24" [suppressed]
chamfer "Fase3" [suppressed]
chamfer "Fase2" [suppressed]
mirror "Spiegeln8" [suppressed]
ref_plane "Arbeitsebene14" through (19.5, -15.5, 41.1754) normal (0, 1, 0) x (1, 0, 0)
ref_plane "Arbeitsebene1" through (0, 45, 50) normal (0, 1, 0) x (-1, 0, 0)
sketch "Skizze13" plane through (0, 0, 15.1754) normal (0, 0, -1) x (-1, 0, 0)
  circle A0 centre (0, 0) radius 22.5 construction
  circle A1 centre (0, 0) radius 25.5 construction
  point P0 (0, 0)
  point P1 (-25.5, 0)
  point P2 (-12.75, -22.0836)
  point P3 (12.75, -22.0836)
  point P4 (25.5, 0)
  point P5 (12.75, 22.0836)
  point P6 (-12.75, 22.0836)
  dimension "d82" = 51
  dimension "d83" = 45
  dimension "d87" = 360
hole "Bohrung1" at (25.5, 0, 15.1754) at (12.75, -22.0836, 15.1754) at (-12.75, -22.0836, 15.1754) at (-25.5, 0, 15.1754) at (-12.75, 22.0836, 15.1754) at (12.75, 22.0836, 15.1754) direction (0, 0, 1) diameter 2.459 depth 10 tip angle 118 thread size "M3x0.5" class "6H" standard "ISO Metric profile"
ref_plane "Arbeitsebene17" through (15.5, -15.5, 41.1754) normal (0, 1, 0) x (1, 0, 0)
sketch "Skizze53" plane through (15.5, -15.5, 41.1754) normal (0, 1, 0) x (1, 0, 0)
  arc A0 (0, 0) -> (-12, 0) centre (-6, 0) ccw construction
  circle A1 centre (-6, 0) radius 8.5
  point P0 (-15.5, 41.1754)
  dimension "d304" = 17
extrude "Extrusion29" [suppressed]
sketch "Skizze52" plane through (0, 0, 27.1754) normal (0, 0, 1) x (0, -1, 0)
  circle A0 centre (0, 0) radius 32.8487 construction
  circle A1 centre (0, 0) radius 15.5 projected
  line L0 (15.5, 0) -> (12.7669, 15.5)
  line L1 (15.5, 0) -> (12.7669, -15.5)
  line L2 (3.8874, -15.5) -> (15.5, -15.5) projected
  line L3 (15.5, 0) -> (0, 0) construction
  line L4 (12.7669, 15.5) -> (-15.5, 15.5)
  line L5 (-15.5, 15.5) -> (-15.5, 18.9793)
  line L6 (-5.701, 2.0068) -> (19.5, 16.5566) projected
  line L7 (12.7669, -15.5) -> (12.7669, 18.0207)
  line L8 (12.7669, 18.0207) -> (15.5, 18.0207)
  line L9 (19.5, -16.5566) -> (1.5276, -6.1802) projected
  arc A2 (29.5385, -23.1026) -> (29.5385, 23.1026) centre (0, 0) ccw
  line L10 (0, 0) -> (29.5385, 23.1026) construction
  line L11 (0, 0) -> (29.5385, -23.1026) construction
  line L12 (-15.5, 18.9793) -> (29.5385, 23.1026)
  line L13 (15.5, 18.0207) -> (29.5385, -23.1026)
  arc A3 (14.5652, -5.3013) -> (14.5652, 5.3013) centre (0, 0) ccw
  circle A4 centre (0, 0) radius 15.5 projected
  point P0 (0, 0)
  point P1 (2.883, 15.2295)
  point P2 (2.883, -15.2295)
  point P3 (-20.3813, 15.9406)
  point P4 (-20.3813, -15.9406)
  point P5 (3.5, -15.5)
  dimension "d297" = 160
  dimension "d298" = 37.5
extrude "Extrusion28" [suppressed]
sketch "Skizze54" plane through (0, 0, 0) normal (0, 1, 0) x (-1, 0, 0)
  arc A0 (-15.5, 41.1754) -> (-3.5, 41.1754) centre (-9.5, 41.1754) ccw construction
  circle A1 centre (-9.5, 41.1754) radius 11
  line L0 (-9.5, 52.1754) -> (-9.5, 30.1754)
  point P0 (0, 0)
  point P1 (-3.8874, 39.0544)
  dimension "d310" = 22
extrude "Extrusion31" [suppressed]
ref_plane "Arbeitsebene18" through (9.5, -15.5, 41.1754) normal (0, 1, 0) x (1, 0, 0)
sketch "Skizze55" plane through (0, -2.5, 0) normal (0, 1, 0) x (1, 0, 0)
  arc A0 (19.249, -36.0806) -> (15.2971, -31.827) centre (9.5, -41.1754) ccw construction
  circle A1 centre (9.5, -41.1754) radius 11
  line L0 (9.5, -30.1754) -> (9.5, -52.1754)
  point P0 (0, 0)
feature "Erhebung3" [suppressed]
ref_plane "Arbeitsebene19" through (0, 0, 36.0806) normal (0, 0, 1) x (1, 0, 0)
sketch "Skizze57" plane through (0, 0, 36.0806) normal (0, 0, 1) x (1, 0, 0)
  circle A0 centre (20.1266, 10.0318) radius 5.25 construction
  line L0 (19.5, -15.5) -> (16.3039, -15.5) construction
  line L1 (19.5, -16.6246) -> (19.5, -15.5) construction
  line L2 (19.5, -16.6246) -> (29.5385, -23.1026) construction
  arc A1 (29.5385, -23.1026) -> (29.5385, 23.1026) centre (0, 0) ccw construction
  line L3 (29.5385, 23.1026) -> (19.5, 16.6246) construction
  line L4 (19.5, 15.5) -> (19.5, 16.6246) construction
  line L5 (12.7669, 15.5) -> (19.5, 15.5) construction
  line L6 (12.7669, 15.5) -> (14.5652, 5.3013) construction
  arc A2 (15.2971, 2.5) -> (14.5652, 5.3013) centre (0, 0) ccw construction
  line L7 (15.2971, 2.5) -> (19.249, 2.5) construction
  line L8 (19.249, 2.5) -> (19.249, -2.5) construction
  circle A3 centre (32.028, -4.0447) radius 5.25 construction
  circle A4 centre (23.1718, -11.3161) radius 5.25 construction
  circle A5 centre (31.4376, 7.173) radius 5.25 construction
  point P0 (0, 0)
  dimension "d318" = 10.5
ref_plane "Arbeitsebene16" through (0, 0, 55) normal (0, 0, 1) x (1, 0, 0)
sketch "Skizze60" plane through (0, 0, 55) normal (0, 0, 1) x (1, 0, 0)
  circle A0 centre (0, 0) radius 45 construction
  circle A1 centre (49, 0) radius 4
  spline S0 degree 4 poles (53, 0) (53, 3.9822) (49.4674, 8.0628) (44.676, 6.3897) (43.9333, 9.7398) knots 0 0 0 0 0 1 1 1 1 1
  arc A2 (43.9333, -9.7398) -> (43.9333, 9.7398) centre (0, 0) ccw
  line L0 (43.9333, 9.7398) -> (0, 0) construction
  line L1 (0, 0) -> (43.9333, -9.7398) construction
  line L2 (0, 0) -> (45, 0) construction
  spline S1 degree 4 poles (43.9333, -9.7398) (44.676, -6.3897) (49.4674, -8.0628) (53, -3.9822) (53, 0) knots 0 0 0 0 0 1 1 1 1 1
  point P0 (48.4333, 6.5398)
  point P1 (48.4333, -6.5398)
  dimension "d326" = 8
  dimension "d327" = 25
  dimension "d328" = 3.2
  dimension "d329" = 4.5
  dimension "d330" = 4.5
  dimension "d331" = 3.2
extrude "Extrusion32" [suppressed]
sketch "Skizze61" plane through (0, 0, 50) normal (0, 0, -1) x (-1, 0, 0)
  spline S0 degree 4 poles (-43.9333, 9.7398) (-44.676, 6.3897) (-49.4674, 8.0628) (-53, 3.9822) (-53, 0) knots -1 -1 -1 -1 -1 0 0 0 0 0
  spline S1 degree 4 poles (-53, 0) (-53, -3.9822) (-49.4673, -8.0628) (-44.676, -6.3897) (-43.9333, -9.7398) knots -1 -1 -1 -1 -1 0 0 0 0 0
  arc A0 (-43.9333, 9.7398) -> (-43.9333, -9.7398) centre (0, 0) ccw construction
  circle A1 centre (-49, 0) radius 4 construction
  arc A2 (-43.9333, 9.7398) -> (-43.9333, -9.7398) centre (0, 0) ccw construction
  line L0 (-52.3775, -2.75) -> (-47.8377, -2.75)
  line L1 (-47.8377, -2.75) -> (-46.25, 0)
  line L2 (-46.25, 0) -> (-47.8377, 2.75)
  line L3 (-47.8377, 2.75) -> (-52.3775, 2.75)
  line L4 (-49, 0) -> (-53, 0) construction
  dimension "d334" = 5.5
  dimension "d335" = 120
  dimension "d336" = 2.3816
extrude "Extrusion34" [suppressed]
hole "Bohrung5" [suppressed]
pattern_circular "Runde Anordnung1" [suppressed]
sketch "Skizze62" plane through (0, 0, 55) normal (0, 0, 1) x (1, 0, 0)
  point P0 (0, 0)
sketch "Skizze63" plane through (0, 0, 55) normal (0, 0, 1) x (1, 0, 0)
  circle A0 centre (0, 0) radius 45 projected
  circle A1 centre (0, 0) radius 40 projected
  circle A2 centre (0, 0) radius 51
  dimension "d351" = 102
extrude "Extrusion35" add sketch "Skizze63" against normal blind 5 contours A2
sketch "Skizze64" plane through (0, 0, 55) normal (0, 0, 1) x (1, 0, 0)
  circle A0 centre (0, 0) radius 51 projected
  circle A1 centre (0, 0) radius 40 projected
  circle A2 centre (0, 0) radius 43
  dimension "d354" = 86
extrude "Extrusion36" cut sketch "Skizze64" against normal blind 2 contours A2
sketch "Skizze65" plane through (0, 0, 55) normal (0, 0, 1) x (1, 0, 0)
  point P0 (0, 0)
  point P1 (-48, 0)
  dimension "d357" = 48
hole "Bohrung6" at (-48, 0, 55) direction (0, 0, -1) diameter 2.459 end through all thread size "M3x0.5" class "6H" standard "ISO Metric profile"
pattern_circular "Runde Anordnung2" count 6 over 360 about axis through (0, 0, 55) along (0, 0, -1) of "Bohrung6"
ref_plane "Arbeitsebene20" through (0, 0, 30) normal (0, 0, -1) x (-1, 0, 0)
sketch "Skizze9" plane through (0, 0, 31.1754) normal (0, 0, 1) x (1, 0, 0)
  circle A0 centre (0, 0) radius 40 construction
  circle A1 centre (0, 0) radius 32.8487 construction
  line L0 (18.5, -23.5) -> (-6.5, -23.5) construction
  line L1 (-6.5, -23.5) -> (-0.5, -20.5) construction
  line L2 (9.5, -20.5) -> (9.5, -38.8555)
  line L3 (-6.5, -23.5) -> (-6.5, -15.5) construction
  line L4 (-6.5, -23.5) -> (-0.5, -20.5) construction
  line L5 (-6.5, -15.5) -> (-0.5, -15.5) construction
  line L6 (-0.5, -18) -> (-24.3237, -31.7546)
  line L7 (18.5, -15.5) -> (18.5, -23.5) construction
  line L8 (18.5, -15.5) -> (19.5, -15.5) projected
  line L9 (19.5, -18) -> (31.3508, -24.8421)
  line L10 (18.5, -23.5) -> (19.5, -20.5) projected
  line L11 (18.5, -23.5) -> (19.5, -20.5) projected
  line L12 (-0.5, -20.5) -> (-0.5, -15.5) projected
  line L13 (19.5, -20.5) -> (-0.5, -20.5) projected
  line L14 (19.5, -15.5) -> (19.5, -20.5) projected
  dimension "d62" = 60
  dimension "d224" = 60
sketch "Skizze56" plane through (9.5, -15.5, 41.1754) normal (0, 1, 0) x (1, 0, 0)
  line L0 (-9.5, 14) -> (9, 14) construction
  circle A0 centre (0, 0) radius 8.5
  line L1 (-3.0048, 7.9512) -> (-3.0048, -7.9512)
  line L2 (30.5, -8.8246) -> (-49.5, -8.8246) projected
  line L3 (-16, 14) -> (-10, 10) projected
  line L4 (9, 14) -> (10, 10) projected
  line L5 (-16, 14) -> (-9.5, 14) projected
  line L6 (-10, 10) -> (10, 10) projected
  point P0 (-9.5, 41.1754)
  point P1 (-3.0048, -0.2722)
  dimension "d313" = 17
properties part number "Kugel_unten_V5_leer" material "ABS-Kunststoff"
